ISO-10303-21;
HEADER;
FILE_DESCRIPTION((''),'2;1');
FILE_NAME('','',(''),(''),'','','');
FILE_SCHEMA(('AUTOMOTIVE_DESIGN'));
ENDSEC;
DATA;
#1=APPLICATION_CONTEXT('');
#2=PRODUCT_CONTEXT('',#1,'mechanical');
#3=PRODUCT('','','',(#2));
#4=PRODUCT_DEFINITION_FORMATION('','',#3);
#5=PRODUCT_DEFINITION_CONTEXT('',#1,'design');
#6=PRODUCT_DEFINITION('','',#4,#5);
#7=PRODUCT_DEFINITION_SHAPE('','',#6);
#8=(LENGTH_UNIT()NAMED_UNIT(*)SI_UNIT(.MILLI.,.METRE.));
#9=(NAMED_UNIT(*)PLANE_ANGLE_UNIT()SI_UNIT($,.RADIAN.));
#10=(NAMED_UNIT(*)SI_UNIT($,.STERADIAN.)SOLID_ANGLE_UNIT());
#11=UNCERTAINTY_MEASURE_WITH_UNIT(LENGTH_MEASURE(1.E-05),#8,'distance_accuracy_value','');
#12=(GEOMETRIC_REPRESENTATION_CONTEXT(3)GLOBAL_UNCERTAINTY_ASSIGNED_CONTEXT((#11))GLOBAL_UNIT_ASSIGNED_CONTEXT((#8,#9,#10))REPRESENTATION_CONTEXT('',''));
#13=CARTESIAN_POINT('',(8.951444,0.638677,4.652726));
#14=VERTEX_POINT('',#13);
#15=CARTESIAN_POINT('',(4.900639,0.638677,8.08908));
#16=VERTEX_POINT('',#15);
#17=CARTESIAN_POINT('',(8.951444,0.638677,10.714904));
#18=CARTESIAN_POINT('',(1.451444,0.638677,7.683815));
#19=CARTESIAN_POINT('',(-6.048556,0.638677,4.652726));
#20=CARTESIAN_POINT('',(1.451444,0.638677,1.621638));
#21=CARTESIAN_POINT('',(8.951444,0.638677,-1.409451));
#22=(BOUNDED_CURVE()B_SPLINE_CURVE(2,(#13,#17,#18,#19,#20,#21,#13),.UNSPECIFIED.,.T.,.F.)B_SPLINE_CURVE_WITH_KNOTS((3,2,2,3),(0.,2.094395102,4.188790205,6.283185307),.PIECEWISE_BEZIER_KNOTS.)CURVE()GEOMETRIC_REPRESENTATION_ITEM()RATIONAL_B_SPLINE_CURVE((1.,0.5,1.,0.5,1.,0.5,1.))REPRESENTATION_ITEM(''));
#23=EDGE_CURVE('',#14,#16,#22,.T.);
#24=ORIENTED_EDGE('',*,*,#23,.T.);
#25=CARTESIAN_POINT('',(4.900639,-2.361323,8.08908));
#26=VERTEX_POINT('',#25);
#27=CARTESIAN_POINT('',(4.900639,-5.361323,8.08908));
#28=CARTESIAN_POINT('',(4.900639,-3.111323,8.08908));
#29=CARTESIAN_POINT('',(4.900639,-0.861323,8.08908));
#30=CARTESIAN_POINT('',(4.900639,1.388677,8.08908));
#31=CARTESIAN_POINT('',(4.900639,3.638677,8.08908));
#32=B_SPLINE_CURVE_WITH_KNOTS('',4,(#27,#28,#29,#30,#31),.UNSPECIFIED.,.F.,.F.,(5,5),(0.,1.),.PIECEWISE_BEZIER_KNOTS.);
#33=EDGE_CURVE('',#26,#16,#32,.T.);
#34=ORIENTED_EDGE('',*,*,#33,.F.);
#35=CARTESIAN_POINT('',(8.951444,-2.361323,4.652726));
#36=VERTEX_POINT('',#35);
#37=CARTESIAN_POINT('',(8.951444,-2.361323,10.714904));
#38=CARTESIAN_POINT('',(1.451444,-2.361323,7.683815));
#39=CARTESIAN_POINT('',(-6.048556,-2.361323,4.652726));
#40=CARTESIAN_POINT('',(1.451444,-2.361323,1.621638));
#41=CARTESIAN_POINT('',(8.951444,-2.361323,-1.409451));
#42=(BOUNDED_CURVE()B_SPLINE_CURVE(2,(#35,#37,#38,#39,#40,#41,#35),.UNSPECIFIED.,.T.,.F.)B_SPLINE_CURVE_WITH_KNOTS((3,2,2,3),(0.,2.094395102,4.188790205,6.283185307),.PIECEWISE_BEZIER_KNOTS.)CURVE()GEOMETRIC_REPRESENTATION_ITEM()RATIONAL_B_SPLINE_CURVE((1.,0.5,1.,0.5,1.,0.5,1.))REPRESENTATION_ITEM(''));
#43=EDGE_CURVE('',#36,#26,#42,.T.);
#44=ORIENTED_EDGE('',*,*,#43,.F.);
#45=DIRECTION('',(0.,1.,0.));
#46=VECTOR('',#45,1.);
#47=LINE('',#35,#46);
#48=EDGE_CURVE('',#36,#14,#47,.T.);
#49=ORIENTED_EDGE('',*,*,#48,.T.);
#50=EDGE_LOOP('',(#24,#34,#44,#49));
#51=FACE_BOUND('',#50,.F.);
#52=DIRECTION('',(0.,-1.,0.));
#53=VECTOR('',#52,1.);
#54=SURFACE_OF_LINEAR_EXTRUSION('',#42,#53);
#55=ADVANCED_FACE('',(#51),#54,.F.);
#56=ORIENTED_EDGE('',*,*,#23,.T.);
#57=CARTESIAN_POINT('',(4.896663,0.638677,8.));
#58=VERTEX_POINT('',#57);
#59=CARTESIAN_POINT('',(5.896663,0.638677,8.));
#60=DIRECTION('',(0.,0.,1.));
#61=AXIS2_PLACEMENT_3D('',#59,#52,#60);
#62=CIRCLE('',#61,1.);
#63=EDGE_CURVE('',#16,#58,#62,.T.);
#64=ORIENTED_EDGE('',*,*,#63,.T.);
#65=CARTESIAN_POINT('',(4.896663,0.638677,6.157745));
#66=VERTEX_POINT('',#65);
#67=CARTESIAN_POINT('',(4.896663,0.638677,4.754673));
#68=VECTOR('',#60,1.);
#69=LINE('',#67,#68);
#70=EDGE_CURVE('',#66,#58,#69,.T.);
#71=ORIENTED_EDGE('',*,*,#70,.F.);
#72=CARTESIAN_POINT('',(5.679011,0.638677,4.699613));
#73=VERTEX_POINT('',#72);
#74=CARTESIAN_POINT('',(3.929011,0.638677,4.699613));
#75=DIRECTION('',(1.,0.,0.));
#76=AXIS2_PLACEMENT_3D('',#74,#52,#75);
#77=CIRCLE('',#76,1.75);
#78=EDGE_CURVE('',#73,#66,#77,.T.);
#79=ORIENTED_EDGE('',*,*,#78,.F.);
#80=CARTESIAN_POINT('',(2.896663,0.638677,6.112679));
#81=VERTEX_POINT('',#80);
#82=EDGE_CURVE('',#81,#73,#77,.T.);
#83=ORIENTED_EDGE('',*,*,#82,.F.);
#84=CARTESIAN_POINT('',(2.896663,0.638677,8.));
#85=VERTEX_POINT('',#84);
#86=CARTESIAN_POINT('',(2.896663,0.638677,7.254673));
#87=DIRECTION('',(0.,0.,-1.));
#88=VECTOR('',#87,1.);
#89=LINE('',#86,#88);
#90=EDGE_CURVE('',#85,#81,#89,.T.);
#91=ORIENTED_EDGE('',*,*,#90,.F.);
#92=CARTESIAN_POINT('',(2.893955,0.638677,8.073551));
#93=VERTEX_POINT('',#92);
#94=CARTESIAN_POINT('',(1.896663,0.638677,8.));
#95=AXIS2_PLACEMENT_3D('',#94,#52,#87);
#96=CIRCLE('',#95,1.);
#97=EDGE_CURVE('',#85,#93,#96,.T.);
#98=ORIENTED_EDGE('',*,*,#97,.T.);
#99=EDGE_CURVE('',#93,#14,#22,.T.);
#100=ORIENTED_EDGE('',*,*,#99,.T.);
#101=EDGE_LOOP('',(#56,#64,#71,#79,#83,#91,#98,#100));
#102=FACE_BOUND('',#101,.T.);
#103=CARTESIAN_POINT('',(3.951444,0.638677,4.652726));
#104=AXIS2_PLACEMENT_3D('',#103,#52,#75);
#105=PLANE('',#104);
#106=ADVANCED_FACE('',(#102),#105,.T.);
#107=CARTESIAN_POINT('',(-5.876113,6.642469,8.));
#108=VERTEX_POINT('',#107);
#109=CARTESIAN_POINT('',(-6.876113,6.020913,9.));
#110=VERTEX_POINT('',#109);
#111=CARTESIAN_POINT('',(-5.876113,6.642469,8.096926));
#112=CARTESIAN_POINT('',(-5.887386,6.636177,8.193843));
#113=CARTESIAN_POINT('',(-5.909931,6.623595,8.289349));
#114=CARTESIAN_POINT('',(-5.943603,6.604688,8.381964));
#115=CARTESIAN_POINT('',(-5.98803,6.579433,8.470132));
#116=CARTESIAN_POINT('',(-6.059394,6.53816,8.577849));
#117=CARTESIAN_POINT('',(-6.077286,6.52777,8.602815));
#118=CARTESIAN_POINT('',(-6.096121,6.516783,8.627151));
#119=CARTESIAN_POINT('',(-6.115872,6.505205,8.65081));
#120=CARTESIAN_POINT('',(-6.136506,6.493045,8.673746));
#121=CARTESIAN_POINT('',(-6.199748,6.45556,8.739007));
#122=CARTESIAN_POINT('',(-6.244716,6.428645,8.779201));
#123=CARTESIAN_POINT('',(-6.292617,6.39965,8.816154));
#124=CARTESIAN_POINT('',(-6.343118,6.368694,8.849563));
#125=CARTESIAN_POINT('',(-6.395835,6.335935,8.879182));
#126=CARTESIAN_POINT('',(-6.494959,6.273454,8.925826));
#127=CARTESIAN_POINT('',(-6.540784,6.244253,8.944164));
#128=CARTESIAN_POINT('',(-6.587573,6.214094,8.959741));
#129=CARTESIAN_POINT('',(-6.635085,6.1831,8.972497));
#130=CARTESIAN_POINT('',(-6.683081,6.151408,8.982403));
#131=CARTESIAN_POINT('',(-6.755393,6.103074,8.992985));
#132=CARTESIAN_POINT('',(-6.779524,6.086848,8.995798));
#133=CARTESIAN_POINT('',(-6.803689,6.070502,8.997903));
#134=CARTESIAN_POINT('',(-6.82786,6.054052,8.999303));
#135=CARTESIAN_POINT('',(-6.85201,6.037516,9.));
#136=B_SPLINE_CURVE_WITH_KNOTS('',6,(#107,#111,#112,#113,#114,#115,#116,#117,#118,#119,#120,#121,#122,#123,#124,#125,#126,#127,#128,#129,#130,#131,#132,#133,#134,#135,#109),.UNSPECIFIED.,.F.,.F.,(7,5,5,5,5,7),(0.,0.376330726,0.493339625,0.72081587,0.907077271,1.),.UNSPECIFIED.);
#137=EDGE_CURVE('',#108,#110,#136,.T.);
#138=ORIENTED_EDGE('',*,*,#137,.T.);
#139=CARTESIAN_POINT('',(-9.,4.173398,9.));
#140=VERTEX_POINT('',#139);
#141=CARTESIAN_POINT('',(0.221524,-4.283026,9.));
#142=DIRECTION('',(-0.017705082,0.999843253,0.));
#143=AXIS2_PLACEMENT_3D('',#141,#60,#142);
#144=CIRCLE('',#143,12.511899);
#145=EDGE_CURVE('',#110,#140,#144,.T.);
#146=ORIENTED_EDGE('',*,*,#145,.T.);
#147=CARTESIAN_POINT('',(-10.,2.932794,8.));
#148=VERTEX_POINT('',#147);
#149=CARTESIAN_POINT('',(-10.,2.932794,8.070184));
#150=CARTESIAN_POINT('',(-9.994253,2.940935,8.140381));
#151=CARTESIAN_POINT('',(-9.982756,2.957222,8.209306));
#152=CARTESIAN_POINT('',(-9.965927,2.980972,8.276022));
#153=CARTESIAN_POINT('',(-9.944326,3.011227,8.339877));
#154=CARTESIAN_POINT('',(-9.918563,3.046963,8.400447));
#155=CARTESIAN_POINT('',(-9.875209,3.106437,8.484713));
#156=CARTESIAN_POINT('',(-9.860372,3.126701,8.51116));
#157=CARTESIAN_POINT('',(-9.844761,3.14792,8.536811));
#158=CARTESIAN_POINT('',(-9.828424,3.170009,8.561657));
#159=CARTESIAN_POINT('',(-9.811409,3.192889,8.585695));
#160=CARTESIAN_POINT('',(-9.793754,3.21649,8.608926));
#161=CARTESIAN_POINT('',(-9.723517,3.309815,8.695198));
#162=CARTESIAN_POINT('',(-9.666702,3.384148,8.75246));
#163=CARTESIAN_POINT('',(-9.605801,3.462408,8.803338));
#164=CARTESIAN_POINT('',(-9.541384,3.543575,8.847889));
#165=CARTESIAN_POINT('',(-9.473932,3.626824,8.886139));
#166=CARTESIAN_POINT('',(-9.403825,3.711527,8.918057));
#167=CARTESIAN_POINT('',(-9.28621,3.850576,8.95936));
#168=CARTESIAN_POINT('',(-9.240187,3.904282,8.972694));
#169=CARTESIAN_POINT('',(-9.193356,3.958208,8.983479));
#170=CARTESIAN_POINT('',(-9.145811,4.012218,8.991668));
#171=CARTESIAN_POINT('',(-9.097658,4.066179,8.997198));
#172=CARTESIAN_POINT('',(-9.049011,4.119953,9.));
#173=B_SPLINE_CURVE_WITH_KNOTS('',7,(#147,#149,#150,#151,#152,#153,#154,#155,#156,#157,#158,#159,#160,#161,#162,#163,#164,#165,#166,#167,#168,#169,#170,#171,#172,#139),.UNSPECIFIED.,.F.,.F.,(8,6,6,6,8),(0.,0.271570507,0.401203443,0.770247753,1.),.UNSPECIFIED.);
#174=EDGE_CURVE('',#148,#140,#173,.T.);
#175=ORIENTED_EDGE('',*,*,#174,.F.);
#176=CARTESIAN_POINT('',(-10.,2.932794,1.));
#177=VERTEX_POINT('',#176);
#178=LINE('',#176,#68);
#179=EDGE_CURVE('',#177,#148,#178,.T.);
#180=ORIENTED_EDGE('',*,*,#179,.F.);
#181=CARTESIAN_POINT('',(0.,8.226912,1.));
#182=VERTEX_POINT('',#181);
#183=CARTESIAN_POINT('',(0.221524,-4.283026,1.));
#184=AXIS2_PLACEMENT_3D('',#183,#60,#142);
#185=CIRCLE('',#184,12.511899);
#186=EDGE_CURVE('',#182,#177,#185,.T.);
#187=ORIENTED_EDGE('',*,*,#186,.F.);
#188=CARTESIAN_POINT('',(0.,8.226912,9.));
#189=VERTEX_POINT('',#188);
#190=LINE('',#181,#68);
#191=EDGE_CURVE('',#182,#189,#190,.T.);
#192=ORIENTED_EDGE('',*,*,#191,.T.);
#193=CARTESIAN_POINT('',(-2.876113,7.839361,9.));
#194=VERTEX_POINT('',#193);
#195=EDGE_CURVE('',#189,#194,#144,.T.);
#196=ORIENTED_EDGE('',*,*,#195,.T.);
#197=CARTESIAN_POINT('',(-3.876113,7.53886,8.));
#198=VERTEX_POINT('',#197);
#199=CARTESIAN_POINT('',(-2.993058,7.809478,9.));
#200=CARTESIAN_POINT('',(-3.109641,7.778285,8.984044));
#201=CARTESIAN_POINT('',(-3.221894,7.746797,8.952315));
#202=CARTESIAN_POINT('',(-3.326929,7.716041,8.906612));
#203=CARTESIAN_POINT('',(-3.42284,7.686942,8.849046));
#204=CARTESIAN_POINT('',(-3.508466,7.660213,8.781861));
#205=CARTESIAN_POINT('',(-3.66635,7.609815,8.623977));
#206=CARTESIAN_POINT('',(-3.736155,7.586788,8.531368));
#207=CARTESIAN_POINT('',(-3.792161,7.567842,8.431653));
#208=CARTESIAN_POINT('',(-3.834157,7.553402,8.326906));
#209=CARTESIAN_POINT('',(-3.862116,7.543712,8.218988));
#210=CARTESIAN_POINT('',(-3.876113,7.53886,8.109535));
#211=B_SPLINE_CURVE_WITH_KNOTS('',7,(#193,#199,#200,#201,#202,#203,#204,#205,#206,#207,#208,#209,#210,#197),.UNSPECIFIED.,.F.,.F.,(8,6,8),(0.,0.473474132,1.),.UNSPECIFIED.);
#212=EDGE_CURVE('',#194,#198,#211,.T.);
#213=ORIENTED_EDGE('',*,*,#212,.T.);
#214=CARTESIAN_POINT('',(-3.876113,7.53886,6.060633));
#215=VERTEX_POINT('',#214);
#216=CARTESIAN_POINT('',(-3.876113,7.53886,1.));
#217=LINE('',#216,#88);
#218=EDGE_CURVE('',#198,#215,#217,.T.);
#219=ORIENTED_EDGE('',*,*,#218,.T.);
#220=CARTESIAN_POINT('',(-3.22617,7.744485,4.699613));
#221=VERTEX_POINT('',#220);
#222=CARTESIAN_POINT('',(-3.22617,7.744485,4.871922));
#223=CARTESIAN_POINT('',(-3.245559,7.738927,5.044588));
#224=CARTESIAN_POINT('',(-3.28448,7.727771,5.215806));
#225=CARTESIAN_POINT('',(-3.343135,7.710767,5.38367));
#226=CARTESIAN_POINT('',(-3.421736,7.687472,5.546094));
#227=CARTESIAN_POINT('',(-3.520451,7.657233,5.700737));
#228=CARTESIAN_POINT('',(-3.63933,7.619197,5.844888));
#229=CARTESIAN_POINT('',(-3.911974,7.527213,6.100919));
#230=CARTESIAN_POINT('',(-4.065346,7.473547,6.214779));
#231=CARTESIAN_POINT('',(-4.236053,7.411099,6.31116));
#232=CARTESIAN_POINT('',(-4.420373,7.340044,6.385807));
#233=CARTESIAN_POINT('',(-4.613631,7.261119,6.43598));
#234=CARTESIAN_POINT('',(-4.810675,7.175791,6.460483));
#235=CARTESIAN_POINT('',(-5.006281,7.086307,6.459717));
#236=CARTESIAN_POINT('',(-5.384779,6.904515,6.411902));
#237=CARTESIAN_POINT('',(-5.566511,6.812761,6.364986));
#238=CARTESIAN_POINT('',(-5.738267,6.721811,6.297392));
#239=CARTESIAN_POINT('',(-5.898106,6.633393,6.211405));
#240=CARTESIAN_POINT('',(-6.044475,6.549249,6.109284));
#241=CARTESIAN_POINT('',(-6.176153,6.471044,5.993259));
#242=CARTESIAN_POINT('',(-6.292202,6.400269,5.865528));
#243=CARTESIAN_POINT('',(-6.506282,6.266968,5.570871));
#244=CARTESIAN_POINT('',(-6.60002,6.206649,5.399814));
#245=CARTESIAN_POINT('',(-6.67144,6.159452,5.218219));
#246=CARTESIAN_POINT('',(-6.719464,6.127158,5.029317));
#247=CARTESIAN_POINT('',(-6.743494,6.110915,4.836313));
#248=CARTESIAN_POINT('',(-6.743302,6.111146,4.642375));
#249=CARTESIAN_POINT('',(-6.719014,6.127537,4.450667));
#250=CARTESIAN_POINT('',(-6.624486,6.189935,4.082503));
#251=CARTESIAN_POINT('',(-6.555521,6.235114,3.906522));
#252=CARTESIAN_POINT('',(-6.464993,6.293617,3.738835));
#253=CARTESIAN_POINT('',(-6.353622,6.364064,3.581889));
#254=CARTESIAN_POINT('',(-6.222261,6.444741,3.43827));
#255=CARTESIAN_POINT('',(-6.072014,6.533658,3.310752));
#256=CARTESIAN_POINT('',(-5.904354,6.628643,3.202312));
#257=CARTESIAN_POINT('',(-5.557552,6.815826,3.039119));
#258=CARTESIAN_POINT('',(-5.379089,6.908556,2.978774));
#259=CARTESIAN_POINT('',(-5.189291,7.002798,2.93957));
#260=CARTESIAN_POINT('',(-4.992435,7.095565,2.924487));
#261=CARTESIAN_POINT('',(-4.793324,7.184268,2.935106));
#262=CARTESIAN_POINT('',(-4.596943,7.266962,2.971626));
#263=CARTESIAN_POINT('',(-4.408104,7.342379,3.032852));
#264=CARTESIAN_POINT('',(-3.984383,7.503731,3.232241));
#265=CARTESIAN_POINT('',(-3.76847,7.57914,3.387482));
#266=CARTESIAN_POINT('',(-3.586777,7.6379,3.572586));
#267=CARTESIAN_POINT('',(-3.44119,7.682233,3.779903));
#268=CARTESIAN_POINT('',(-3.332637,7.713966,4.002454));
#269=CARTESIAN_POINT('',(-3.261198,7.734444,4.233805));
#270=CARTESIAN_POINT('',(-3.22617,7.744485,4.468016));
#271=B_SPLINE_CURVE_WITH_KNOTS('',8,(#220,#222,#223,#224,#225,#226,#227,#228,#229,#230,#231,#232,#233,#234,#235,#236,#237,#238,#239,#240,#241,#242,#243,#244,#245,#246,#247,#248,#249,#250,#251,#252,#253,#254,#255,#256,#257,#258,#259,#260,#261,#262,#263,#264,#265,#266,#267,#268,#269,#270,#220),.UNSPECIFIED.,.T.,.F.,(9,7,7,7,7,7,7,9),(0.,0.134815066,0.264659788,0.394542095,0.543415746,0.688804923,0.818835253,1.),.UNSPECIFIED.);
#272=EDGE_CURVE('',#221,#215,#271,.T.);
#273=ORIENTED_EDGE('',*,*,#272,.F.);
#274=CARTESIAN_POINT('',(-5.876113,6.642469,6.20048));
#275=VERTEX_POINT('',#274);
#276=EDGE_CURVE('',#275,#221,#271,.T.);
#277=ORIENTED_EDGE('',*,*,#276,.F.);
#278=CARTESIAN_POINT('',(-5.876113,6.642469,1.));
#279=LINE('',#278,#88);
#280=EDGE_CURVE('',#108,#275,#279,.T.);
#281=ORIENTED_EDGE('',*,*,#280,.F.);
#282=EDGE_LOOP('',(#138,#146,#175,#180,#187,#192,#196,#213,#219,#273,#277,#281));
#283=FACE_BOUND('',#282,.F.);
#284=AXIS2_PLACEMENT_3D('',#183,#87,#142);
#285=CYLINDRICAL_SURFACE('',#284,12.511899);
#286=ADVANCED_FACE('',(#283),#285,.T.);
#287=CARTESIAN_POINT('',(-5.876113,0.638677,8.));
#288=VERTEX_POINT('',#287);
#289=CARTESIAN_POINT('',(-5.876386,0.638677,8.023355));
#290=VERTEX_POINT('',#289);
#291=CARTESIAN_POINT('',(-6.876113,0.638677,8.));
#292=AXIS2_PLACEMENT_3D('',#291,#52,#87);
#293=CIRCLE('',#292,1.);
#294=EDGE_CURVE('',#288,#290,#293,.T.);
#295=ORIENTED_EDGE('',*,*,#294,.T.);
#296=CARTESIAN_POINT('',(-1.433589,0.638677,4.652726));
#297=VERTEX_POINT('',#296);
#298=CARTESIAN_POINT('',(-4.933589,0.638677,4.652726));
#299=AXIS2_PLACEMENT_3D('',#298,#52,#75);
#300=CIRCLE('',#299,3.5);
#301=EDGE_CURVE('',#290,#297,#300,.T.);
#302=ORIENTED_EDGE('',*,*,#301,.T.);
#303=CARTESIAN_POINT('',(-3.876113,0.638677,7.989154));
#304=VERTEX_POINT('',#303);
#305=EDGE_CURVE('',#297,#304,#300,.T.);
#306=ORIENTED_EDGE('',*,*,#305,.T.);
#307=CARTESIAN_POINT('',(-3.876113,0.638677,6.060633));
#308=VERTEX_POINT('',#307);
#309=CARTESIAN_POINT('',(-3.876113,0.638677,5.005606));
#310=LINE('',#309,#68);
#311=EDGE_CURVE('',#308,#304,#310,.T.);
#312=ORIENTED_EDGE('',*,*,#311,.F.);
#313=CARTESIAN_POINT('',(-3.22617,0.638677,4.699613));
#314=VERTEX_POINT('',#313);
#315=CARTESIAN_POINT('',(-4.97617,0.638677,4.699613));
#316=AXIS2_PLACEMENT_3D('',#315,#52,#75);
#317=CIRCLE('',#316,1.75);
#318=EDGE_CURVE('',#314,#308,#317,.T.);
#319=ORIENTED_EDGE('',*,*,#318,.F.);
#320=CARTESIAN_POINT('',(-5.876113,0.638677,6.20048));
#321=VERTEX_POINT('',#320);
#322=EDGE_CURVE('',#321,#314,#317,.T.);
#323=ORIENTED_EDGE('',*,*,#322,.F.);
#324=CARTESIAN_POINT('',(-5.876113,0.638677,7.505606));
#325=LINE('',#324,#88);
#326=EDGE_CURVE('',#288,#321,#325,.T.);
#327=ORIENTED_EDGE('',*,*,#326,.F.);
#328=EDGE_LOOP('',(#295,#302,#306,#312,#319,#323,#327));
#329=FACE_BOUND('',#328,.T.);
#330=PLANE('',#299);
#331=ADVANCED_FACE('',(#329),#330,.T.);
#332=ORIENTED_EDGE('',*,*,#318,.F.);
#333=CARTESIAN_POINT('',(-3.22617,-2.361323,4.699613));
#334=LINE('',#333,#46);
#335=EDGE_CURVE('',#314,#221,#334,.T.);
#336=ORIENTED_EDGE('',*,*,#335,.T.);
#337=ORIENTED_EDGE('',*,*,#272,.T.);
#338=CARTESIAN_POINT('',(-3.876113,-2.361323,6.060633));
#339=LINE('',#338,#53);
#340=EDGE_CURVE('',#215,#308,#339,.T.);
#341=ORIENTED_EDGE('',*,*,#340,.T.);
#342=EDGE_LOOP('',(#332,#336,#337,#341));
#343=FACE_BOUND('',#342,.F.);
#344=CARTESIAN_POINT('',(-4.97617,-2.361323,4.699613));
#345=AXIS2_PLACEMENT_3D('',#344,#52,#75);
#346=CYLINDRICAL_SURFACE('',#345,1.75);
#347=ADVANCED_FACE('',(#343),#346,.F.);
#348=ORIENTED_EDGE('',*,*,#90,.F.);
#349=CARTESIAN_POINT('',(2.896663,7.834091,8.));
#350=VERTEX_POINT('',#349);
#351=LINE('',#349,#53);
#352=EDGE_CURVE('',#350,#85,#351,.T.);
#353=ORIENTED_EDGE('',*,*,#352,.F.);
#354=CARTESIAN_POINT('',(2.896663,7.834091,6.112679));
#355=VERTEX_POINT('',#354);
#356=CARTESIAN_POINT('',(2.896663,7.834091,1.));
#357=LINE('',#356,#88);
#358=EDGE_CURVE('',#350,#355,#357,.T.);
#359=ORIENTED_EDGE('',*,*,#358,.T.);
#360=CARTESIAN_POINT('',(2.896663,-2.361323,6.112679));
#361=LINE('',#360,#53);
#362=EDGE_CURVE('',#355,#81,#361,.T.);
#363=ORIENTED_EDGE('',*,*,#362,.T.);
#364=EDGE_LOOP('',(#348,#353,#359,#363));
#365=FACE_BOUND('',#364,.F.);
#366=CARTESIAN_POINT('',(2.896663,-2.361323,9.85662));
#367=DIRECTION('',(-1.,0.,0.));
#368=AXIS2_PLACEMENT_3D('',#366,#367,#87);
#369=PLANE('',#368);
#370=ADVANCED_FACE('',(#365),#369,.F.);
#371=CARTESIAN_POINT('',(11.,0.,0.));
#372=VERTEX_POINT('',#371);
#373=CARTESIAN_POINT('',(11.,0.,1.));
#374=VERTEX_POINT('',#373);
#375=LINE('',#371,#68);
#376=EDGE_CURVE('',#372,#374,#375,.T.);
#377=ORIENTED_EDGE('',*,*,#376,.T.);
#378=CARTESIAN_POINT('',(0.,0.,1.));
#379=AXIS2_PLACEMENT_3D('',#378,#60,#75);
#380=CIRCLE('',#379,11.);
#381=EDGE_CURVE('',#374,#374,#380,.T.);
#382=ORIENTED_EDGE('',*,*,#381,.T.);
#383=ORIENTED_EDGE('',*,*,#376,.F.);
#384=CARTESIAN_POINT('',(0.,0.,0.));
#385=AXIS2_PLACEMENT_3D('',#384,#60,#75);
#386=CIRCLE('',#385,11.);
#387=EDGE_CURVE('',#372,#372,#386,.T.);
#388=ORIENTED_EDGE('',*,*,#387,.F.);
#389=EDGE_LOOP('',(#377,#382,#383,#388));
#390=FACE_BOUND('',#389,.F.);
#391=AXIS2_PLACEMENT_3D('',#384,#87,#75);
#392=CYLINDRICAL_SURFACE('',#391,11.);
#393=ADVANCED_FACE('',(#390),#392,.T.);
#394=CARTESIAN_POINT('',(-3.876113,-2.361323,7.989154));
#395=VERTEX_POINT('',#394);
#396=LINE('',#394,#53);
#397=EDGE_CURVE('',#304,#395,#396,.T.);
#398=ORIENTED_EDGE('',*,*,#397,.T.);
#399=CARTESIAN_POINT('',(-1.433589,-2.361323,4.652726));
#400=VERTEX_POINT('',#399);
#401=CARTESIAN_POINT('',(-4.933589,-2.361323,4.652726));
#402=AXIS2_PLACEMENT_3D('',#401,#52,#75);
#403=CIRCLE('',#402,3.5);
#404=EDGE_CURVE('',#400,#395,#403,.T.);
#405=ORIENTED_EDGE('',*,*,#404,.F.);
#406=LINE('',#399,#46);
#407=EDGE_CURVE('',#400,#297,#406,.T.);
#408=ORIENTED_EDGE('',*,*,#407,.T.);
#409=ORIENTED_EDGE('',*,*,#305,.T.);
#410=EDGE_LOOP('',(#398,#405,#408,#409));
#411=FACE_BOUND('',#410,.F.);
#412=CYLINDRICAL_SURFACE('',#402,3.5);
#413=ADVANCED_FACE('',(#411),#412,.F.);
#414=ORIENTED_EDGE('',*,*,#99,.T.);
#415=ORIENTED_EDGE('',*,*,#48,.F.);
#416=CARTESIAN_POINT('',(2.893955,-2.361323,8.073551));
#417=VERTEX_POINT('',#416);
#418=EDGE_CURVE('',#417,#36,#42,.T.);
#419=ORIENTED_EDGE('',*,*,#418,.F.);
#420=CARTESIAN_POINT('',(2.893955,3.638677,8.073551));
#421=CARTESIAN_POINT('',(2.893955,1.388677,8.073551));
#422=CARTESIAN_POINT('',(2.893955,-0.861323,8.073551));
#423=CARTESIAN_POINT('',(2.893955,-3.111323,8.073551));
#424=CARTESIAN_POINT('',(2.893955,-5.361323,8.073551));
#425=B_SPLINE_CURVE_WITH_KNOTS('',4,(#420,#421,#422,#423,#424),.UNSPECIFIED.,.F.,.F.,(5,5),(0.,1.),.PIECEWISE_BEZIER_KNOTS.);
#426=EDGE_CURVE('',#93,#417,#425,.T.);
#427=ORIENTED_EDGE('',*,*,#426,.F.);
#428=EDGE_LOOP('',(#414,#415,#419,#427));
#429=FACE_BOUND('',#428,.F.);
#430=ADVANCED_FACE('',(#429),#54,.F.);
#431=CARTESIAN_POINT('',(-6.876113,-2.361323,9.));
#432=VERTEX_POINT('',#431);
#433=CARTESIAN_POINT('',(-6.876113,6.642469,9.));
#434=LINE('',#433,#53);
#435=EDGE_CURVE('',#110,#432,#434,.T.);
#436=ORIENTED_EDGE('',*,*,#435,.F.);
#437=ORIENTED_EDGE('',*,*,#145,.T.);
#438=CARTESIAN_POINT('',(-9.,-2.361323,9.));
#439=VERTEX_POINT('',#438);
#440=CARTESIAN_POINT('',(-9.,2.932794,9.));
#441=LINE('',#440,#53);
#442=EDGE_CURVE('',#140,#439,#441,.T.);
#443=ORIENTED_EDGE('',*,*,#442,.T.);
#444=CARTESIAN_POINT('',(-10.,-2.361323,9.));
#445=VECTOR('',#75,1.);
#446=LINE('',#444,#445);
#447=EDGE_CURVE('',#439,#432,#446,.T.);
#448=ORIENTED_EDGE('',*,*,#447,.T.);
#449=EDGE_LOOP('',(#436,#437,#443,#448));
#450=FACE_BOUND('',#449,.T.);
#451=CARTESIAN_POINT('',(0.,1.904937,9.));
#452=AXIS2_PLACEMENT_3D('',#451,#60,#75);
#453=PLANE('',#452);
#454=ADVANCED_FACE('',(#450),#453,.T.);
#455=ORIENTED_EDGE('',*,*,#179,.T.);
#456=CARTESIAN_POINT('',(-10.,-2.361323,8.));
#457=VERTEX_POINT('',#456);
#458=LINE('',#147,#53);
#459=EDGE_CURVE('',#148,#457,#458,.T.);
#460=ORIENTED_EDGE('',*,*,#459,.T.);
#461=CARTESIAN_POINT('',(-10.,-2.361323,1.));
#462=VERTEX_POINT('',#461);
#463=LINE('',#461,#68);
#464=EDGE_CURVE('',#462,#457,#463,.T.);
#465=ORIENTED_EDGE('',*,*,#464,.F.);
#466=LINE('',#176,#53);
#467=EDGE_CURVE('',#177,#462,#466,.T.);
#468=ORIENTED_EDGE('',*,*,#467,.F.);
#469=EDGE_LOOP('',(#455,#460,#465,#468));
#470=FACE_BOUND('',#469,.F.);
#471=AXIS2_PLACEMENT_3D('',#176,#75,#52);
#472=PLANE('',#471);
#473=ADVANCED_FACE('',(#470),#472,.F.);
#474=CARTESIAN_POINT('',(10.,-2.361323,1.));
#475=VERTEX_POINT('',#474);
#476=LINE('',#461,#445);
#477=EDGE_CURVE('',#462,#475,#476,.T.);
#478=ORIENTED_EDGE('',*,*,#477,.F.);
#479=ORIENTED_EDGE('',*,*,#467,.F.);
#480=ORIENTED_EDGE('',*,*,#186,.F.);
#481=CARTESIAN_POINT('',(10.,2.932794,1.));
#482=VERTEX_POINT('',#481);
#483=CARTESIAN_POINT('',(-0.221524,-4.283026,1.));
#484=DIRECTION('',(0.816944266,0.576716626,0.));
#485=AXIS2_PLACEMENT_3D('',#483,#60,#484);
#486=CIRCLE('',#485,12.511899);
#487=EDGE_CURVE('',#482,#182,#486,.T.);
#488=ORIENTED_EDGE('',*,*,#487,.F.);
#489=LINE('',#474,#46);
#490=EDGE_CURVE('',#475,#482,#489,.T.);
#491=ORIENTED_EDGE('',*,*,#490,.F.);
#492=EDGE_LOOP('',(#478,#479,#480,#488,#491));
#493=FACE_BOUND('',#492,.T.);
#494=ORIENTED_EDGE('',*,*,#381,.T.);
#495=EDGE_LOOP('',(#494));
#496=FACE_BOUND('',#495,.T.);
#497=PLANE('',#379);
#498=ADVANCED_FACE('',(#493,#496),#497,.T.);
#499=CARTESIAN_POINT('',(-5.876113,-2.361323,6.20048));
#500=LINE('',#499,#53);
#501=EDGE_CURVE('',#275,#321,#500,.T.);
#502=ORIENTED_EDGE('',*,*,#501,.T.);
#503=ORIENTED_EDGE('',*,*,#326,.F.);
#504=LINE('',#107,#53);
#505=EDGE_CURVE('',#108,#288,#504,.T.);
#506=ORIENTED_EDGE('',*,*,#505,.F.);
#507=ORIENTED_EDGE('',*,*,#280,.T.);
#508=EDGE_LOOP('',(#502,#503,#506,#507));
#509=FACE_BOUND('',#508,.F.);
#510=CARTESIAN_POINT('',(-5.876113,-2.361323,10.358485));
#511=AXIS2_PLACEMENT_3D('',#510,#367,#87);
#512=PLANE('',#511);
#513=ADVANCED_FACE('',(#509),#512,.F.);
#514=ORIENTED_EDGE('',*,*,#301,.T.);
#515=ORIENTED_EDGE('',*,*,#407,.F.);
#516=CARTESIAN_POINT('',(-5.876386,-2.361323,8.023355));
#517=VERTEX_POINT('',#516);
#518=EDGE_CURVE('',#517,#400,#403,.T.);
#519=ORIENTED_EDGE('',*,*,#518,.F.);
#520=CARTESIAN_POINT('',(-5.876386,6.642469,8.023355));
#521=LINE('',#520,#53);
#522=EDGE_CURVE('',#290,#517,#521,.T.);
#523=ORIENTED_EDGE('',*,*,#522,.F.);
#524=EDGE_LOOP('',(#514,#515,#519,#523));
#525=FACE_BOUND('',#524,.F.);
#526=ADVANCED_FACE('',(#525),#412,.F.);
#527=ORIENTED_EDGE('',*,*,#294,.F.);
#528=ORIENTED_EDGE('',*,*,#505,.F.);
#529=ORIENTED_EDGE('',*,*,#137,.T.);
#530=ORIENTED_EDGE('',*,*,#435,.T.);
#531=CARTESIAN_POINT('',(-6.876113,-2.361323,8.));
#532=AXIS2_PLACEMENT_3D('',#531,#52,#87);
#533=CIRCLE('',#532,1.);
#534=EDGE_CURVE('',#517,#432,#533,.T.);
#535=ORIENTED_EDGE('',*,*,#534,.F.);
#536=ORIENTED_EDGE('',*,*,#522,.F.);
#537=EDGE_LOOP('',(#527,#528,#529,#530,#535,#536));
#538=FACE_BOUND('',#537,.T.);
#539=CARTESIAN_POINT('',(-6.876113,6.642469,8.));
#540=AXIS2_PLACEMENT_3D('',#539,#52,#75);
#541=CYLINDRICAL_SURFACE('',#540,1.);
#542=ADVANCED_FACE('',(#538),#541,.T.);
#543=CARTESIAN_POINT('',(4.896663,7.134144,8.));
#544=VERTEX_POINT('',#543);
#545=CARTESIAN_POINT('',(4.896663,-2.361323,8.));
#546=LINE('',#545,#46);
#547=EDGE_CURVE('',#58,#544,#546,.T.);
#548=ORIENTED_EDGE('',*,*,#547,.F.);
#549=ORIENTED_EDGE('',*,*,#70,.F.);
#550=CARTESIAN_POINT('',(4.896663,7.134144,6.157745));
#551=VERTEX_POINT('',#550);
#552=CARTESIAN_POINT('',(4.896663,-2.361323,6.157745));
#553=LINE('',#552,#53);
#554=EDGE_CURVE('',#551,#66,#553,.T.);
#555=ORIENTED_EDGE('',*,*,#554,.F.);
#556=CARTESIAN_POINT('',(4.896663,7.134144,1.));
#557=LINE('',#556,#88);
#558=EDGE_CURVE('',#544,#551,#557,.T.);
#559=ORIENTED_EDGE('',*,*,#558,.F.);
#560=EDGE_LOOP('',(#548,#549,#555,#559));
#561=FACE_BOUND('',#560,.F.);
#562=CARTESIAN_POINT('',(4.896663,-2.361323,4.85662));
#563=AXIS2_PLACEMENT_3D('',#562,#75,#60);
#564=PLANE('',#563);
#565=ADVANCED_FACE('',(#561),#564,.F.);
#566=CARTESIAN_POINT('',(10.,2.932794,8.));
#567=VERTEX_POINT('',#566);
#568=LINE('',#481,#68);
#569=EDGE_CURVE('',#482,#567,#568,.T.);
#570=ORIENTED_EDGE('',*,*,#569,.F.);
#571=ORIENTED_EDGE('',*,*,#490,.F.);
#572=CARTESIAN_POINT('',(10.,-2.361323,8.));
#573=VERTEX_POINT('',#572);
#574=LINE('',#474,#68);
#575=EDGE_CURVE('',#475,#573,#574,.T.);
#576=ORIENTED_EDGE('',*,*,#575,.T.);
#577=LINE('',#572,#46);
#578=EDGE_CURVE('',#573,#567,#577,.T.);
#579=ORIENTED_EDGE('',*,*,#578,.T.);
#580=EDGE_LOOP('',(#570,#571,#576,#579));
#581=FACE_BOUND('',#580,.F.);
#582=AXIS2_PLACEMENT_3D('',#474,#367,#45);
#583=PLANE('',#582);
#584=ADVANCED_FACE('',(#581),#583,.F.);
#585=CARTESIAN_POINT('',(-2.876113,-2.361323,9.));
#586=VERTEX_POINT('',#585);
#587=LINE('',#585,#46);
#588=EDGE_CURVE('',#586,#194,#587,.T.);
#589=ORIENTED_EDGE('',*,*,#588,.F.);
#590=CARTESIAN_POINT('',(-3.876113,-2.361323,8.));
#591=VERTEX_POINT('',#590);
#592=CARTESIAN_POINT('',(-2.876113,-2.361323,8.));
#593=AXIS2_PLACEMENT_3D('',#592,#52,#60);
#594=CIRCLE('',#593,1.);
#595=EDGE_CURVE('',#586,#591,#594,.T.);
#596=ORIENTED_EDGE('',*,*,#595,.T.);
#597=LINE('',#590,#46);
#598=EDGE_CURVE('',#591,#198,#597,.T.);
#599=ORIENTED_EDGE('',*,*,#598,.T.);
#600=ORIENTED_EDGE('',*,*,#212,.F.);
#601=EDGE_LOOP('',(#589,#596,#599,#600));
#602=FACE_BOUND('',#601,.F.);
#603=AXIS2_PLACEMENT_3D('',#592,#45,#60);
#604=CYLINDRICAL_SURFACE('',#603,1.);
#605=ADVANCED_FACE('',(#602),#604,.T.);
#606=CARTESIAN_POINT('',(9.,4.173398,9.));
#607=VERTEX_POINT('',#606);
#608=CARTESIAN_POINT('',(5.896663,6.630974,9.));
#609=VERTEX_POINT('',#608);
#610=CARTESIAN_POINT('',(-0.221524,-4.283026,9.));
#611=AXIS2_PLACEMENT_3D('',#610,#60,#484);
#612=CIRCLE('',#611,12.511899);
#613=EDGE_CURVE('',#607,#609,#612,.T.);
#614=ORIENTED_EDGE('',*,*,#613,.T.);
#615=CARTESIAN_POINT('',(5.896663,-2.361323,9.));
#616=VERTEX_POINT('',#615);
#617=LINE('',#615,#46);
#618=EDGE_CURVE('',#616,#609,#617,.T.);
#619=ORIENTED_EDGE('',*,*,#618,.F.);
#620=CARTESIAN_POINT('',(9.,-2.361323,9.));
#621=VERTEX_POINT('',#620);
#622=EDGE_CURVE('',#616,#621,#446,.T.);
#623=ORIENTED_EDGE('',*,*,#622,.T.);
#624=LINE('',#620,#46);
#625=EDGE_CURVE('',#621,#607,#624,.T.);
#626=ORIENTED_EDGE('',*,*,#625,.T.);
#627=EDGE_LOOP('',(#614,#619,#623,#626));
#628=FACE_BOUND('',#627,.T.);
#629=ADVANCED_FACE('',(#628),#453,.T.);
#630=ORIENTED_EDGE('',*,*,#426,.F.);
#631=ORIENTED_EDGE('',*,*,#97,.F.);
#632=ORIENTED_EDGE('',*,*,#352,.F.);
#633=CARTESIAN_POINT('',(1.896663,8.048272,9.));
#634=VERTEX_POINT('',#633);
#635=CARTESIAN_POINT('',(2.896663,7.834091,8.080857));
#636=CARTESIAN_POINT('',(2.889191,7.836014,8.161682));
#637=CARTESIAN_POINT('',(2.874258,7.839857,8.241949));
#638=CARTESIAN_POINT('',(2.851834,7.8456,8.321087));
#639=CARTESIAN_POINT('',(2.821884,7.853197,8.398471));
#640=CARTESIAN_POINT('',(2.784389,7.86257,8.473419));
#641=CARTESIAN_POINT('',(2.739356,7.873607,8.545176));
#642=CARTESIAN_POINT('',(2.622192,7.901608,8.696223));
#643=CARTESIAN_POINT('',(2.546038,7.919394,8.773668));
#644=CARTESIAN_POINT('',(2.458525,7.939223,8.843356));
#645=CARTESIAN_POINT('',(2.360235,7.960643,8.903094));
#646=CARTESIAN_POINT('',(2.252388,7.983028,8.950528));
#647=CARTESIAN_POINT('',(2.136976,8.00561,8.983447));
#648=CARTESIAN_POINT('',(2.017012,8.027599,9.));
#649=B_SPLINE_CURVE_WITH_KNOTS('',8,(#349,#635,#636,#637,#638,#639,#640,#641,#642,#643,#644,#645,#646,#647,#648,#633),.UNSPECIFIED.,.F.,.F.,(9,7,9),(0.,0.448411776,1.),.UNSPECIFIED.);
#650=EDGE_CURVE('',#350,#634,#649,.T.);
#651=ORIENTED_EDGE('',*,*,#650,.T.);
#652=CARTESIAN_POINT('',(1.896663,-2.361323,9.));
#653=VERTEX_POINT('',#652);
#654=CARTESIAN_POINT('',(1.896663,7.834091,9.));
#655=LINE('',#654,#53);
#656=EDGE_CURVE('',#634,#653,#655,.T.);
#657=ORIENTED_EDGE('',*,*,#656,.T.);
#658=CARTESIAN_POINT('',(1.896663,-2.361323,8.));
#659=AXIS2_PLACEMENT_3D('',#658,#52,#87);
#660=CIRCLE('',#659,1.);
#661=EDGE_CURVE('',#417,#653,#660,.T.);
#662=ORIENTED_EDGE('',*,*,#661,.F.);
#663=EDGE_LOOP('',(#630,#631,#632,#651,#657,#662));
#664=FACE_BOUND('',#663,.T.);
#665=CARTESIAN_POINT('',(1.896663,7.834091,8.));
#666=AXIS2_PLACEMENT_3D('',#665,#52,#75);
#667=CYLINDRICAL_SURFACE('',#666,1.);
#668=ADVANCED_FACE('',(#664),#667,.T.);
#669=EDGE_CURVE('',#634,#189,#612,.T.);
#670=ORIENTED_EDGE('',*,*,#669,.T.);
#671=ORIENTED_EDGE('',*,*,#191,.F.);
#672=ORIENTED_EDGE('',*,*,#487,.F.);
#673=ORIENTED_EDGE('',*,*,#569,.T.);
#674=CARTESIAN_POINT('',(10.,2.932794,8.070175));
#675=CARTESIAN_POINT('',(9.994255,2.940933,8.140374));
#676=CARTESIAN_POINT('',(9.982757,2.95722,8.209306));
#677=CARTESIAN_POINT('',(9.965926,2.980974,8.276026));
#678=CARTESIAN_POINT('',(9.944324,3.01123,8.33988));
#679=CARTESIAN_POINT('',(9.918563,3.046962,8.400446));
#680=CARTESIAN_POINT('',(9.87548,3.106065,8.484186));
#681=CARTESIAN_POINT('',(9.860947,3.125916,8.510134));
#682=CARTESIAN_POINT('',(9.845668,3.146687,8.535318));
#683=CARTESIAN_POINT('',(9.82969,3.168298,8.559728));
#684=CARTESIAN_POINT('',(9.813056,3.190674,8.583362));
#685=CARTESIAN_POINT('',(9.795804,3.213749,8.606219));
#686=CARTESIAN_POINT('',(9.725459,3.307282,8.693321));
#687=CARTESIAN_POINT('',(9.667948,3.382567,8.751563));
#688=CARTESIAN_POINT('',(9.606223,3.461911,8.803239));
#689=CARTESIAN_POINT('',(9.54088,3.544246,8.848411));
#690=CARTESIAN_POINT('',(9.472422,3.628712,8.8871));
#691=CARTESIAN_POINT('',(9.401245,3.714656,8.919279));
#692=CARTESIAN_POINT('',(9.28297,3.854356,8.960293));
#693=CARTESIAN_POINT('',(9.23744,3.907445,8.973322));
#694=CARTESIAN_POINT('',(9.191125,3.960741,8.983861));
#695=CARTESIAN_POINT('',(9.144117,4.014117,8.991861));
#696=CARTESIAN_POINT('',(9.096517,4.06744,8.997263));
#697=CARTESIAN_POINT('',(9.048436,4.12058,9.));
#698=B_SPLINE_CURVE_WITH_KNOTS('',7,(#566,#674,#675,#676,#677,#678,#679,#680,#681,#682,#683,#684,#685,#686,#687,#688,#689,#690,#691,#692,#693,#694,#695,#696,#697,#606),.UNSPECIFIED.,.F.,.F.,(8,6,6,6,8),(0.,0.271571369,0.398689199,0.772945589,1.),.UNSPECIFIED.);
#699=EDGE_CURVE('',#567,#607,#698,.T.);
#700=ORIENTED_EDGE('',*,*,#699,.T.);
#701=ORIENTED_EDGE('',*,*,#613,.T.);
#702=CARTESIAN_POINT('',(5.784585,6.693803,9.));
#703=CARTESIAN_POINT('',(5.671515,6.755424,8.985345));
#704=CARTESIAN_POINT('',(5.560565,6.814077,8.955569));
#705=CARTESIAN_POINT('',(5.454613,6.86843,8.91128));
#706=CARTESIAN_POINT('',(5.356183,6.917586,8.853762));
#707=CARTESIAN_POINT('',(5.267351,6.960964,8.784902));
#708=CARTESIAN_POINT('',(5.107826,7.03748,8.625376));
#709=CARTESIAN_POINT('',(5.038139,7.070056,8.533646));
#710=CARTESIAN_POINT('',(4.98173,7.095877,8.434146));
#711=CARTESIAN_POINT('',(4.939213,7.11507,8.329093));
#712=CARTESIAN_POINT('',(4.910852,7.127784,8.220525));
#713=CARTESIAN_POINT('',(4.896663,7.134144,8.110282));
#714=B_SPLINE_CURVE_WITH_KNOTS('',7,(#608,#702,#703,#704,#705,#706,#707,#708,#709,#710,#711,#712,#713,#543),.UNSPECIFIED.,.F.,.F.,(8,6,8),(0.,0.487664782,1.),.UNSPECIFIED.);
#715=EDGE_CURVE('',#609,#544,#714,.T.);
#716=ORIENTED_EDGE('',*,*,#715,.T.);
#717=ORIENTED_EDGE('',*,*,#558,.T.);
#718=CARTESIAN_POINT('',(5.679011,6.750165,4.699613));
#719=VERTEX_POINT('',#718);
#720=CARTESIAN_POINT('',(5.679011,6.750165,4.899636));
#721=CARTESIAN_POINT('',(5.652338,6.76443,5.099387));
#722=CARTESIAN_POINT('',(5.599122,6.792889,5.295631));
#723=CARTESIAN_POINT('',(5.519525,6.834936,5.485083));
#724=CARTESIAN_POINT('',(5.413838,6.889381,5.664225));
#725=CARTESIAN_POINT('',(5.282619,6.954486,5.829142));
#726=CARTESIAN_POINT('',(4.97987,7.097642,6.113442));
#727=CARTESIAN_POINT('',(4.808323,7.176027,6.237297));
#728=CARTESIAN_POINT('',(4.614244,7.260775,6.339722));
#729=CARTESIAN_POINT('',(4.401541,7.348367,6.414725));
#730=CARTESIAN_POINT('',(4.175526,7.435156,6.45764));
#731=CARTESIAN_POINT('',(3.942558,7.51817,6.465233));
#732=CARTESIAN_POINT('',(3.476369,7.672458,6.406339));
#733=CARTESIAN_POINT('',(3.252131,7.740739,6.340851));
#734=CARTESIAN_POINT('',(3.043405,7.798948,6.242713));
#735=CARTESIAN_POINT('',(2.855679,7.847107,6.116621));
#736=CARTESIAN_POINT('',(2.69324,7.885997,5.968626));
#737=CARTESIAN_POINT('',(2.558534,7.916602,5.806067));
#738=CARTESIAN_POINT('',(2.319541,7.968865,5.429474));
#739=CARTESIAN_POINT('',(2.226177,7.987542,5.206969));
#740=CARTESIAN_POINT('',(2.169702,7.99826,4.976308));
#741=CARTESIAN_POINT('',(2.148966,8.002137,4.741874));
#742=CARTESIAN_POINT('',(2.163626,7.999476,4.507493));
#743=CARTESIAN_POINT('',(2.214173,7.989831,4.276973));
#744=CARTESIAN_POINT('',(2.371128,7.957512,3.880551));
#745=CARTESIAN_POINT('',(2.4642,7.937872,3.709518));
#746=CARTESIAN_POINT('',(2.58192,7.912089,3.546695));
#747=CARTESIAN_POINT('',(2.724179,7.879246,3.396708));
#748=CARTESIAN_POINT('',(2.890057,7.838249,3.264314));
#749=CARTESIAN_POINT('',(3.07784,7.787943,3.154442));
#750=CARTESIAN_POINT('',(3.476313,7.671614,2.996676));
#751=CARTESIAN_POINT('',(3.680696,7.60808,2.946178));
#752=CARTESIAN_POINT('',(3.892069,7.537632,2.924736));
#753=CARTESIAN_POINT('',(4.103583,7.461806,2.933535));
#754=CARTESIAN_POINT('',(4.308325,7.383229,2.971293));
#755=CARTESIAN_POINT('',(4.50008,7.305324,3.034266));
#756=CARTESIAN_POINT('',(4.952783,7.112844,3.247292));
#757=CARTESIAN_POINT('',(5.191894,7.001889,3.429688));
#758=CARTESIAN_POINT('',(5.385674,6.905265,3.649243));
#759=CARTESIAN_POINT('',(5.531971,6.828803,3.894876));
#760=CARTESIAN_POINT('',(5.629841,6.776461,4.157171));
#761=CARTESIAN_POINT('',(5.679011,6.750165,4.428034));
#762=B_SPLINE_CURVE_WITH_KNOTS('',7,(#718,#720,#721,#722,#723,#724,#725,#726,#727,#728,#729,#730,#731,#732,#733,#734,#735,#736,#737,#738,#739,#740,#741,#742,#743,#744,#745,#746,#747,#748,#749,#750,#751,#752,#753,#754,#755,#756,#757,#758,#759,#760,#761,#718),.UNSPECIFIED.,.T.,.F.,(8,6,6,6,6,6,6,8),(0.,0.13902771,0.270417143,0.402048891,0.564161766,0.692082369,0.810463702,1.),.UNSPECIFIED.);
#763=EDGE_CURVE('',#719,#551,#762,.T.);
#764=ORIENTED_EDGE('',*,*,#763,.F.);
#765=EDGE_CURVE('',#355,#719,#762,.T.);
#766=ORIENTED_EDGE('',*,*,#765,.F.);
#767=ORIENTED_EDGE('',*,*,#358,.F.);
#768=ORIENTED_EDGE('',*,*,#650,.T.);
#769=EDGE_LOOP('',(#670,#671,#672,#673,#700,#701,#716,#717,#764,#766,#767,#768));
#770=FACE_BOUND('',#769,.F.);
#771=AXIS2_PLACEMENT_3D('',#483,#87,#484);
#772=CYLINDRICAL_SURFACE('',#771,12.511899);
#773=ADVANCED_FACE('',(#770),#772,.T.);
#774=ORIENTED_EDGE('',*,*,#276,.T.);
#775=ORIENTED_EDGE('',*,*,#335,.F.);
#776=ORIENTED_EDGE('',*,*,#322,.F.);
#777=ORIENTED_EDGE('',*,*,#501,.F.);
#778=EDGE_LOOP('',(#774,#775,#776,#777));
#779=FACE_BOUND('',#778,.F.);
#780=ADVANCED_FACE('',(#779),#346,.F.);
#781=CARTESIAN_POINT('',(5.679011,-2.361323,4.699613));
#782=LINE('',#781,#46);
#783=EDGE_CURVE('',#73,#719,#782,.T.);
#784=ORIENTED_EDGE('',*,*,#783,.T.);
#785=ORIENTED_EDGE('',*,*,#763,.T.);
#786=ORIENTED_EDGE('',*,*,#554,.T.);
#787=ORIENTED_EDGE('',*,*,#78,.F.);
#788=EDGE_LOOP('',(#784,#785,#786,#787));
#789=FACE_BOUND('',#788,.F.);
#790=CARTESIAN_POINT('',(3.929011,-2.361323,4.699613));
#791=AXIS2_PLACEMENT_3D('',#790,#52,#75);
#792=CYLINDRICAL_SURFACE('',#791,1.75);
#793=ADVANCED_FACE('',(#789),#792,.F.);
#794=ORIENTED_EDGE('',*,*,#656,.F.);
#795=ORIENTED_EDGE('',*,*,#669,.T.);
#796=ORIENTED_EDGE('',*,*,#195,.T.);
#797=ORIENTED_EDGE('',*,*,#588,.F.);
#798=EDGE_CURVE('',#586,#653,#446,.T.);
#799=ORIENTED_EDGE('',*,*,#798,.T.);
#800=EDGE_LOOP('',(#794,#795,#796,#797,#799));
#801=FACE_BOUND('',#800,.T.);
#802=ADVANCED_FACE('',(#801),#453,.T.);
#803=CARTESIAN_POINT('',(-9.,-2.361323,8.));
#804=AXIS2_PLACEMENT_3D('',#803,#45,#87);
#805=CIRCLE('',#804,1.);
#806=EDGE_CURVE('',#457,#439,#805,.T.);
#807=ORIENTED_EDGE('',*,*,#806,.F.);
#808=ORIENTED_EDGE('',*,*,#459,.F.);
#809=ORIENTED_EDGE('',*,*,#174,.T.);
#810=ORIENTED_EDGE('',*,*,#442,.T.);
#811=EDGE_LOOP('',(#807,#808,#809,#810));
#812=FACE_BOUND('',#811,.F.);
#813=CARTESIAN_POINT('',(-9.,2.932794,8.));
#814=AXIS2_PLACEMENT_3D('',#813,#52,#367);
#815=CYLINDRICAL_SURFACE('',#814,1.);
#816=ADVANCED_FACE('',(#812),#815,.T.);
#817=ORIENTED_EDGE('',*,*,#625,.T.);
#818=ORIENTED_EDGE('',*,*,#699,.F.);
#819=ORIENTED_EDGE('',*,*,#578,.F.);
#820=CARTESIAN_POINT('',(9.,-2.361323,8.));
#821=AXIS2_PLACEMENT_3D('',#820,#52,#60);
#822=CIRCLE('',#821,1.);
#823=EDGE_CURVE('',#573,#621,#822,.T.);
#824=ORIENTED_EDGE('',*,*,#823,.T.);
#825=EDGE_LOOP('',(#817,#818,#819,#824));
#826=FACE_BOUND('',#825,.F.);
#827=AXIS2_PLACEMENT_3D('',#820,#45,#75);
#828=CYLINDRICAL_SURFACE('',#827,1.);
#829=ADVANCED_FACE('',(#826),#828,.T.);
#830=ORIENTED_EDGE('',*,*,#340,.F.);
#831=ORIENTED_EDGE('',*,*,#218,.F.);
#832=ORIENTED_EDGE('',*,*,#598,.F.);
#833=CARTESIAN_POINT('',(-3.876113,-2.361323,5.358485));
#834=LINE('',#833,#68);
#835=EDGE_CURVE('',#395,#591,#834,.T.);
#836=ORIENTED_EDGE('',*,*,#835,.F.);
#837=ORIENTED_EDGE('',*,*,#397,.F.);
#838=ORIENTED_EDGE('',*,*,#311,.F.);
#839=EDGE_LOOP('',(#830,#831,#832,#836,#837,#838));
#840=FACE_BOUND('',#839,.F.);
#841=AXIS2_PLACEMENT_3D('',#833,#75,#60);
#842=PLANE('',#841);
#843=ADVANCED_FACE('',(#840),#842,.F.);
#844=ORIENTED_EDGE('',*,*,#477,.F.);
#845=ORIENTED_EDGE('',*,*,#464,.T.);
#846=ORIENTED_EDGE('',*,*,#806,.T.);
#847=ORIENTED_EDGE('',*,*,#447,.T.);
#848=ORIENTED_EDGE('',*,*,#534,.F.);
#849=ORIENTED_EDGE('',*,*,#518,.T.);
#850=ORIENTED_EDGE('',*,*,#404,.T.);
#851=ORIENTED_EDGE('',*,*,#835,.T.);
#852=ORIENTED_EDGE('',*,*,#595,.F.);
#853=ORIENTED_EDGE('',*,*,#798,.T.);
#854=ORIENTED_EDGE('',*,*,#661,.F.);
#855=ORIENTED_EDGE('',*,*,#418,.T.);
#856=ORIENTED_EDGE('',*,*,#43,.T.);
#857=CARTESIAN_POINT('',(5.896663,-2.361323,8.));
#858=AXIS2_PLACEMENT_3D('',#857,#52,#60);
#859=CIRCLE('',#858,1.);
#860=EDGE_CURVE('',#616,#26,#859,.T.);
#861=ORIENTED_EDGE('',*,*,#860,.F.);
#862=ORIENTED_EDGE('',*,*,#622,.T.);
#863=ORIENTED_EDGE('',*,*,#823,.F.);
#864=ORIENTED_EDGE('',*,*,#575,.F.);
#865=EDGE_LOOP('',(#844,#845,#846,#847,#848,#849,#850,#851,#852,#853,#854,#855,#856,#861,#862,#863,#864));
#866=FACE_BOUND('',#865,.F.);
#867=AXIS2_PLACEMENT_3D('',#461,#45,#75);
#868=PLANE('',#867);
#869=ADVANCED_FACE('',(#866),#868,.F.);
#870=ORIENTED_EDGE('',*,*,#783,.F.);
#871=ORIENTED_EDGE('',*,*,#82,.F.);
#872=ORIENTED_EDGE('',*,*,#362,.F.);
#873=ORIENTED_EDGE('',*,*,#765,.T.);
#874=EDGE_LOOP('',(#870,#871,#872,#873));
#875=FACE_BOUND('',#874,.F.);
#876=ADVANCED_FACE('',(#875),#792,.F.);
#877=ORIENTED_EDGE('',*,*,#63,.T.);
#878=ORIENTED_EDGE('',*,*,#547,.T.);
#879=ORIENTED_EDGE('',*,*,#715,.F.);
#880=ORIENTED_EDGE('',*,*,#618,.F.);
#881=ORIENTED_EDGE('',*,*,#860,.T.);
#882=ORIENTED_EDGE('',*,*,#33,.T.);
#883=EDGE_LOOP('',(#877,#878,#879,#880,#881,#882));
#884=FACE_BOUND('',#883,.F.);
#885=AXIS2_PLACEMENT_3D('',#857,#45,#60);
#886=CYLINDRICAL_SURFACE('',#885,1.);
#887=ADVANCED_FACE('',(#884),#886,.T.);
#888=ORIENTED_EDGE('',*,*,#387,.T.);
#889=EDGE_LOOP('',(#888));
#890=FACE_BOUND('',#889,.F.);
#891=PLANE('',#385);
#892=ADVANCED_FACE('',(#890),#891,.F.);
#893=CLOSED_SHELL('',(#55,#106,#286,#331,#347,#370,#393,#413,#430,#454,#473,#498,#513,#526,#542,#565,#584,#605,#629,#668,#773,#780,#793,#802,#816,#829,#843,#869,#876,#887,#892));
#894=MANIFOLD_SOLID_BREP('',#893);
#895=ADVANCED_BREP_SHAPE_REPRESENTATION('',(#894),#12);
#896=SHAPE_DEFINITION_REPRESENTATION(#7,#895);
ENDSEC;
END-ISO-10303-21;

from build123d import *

# Parameters (mm, degrees)
F0_R     = 11
F1_DEPTH = 1
F3_DEPTH = 8
F4_R     = 3.5
F5_DEPTH = 3
F6_R     = 1.75
F7_DEPTH = 25
F8_W     = 2
F8_H     = 1.3584850393
F8_H_2   = 0.8566204496
F9_DEPTH = 25
F10_R    = 1


with BuildPart() as f1:
    # F0 (on Top) → F1 (new body)
    with BuildSketch(Plane.XY):
        Circle(F0_R)
    extrude(amount=F1_DEPTH)

    # F2 (on face) → F3 (join)
    with BuildSketch(Plane.XY.offset(1)):
        with BuildLine():
            Line((-10, -2.3613233584), (10, -2.3613233584))
            Line((10, -2.3613233584), (10, 2.9327942886))
            ThreePointArc((10, 2.9327942886), (5.6326397358, 6.7748392798), (0, 8.2269119357))
            ThreePointArc((0, 8.2269119357), (-5.6326397358, 6.7748392798), (-10, 2.9327942886))
            Line((-10, 2.9327942886), (-10, -2.3613233584))
        make_face()
    extrude(amount=F3_DEPTH)

    # F4 (on face) → F5 (cut)
    with BuildSketch(Plane.XZ.offset(2.3613233584)):
        with BuildLine():
            add(Edge.make_bspline(
                [(8.9514442906, 4.652726464), (8.9514442906, 10.7149042905), (1.4514442906, 7.6838153772), (-6.0485557094, 4.652726464), (1.4514442906, 1.6216375507), (8.9514442906, -1.4094513625), (8.9514442906, 4.652726464)],
                knots=[0, 0, 0, 2.0943951024, 2.0943951024, 4.1887902048, 4.1887902048, 6.2831853072, 6.2831853072, 6.2831853072], degree=2, weights=[1, 0.5, 1, 0.5, 1, 0.5, 1]))
        make_face()
        with Locations((-4.9335886724, 4.652726464)):
            Circle(F4_R)
    extrude(amount=-F5_DEPTH, mode=Mode.SUBTRACT)

    # F6 (on face) → F7 (cut)
    with BuildSketch(Plane.XZ.offset(2.3613233584)):
        with Locations((-4.9761696719, 4.699612502)):
            Circle(F6_R)
        with Locations((3.9290110581, 4.699612502)):
            Circle(F6_R)
    extrude(amount=-F7_DEPTH, mode=Mode.SUBTRACT)

    # F8 (on face) → F9 (cut)
    with BuildSketch(Plane.XZ.offset(2.3613233584)):
        with Locations((-4.8761131, 9.6792425197)):
            Rectangle(F8_W, F8_H)
        with BuildLine():
            Line((-3.8761131, 9), (-5.8761131, 9))
            Line((-5.8761131, 9), (-5.8761131, 8.0234307974))
            ThreePointArc((-5.8761131, 8.0234307974), (-4.8736122222, 8.1522125442), (-3.8761131, 7.989153507))
            Line((-3.8761131, 7.989153507), (-3.8761131, 9))
        make_face()
        with BuildLine():
            ThreePointArc((-3.8761131, 7.989153507), (-4.8736122222, 8.1522125442), (-5.8761131, 8.0234307974))
            Line((-5.8761131, 8.0234307974), (-5.8761131, 5.3584850393))
            Line((-5.8761131, 5.3584850393), (-3.8761131, 5.3584850393))
            Line((-3.8761131, 5.3584850393), (-3.8761131, 7.989153507))
        make_face()
        with BuildLine():
            add(Edge.make_bspline(
                [(4.8966631293, 8.0896167823), (3.8943802836, 8.2246849702), (2.8966631293, 8.0739607418)],
                knots=[1.352399947, 1.352399947, 1.352399947, 1.7466916301, 1.7466916301, 1.7466916301], degree=2, weights=[0.7712353122, 0.7986692612, 0.8615451927]))
            Line((2.8966631293, 8.0739607418), (2.8966631293, 4.8566204496))
            Line((2.8966631293, 4.8566204496), (4.8966631293, 4.8566204496))
            Line((4.8966631293, 4.8566204496), (4.8966631293, 8.0896167823))
        make_face()
        with BuildLine():
            Line((4.8966631293, 9), (2.8966631293, 9))
            Line((2.8966631293, 9), (2.8966631293, 8.0739607418))
            add(Edge.make_bspline(
                [(4.8966631293, 8.0896167823), (3.8943802836, 8.2246849702), (2.8966631293, 8.0739607418)],
                knots=[1.352399947, 1.352399947, 1.352399947, 1.7466916301, 1.7466916301, 1.7466916301], degree=2, weights=[0.7712353122, 0.7986692612, 0.8615451927]))
            Line((4.8966631293, 8.0896167823), (4.8966631293, 9))
        make_face()
        with Locations((3.8966631293, 9.4283102248)):
            Rectangle(F8_W, F8_H_2)
    extrude(amount=-F9_DEPTH, mode=Mode.SUBTRACT)

    # F10
    f10_edges = [f1.edges().sort_by_distance(p)[0] for p in [
        (-10, 0.285735, 9),
        (-5.876113, 2.140573, 9),
        (-3.876113, 2.588768, 9),
        (2.896663, 2.736384, 9),
        (4.896663, 2.38641, 9),
        (10, 0.285735, 9),
    ]]
    fillet(f10_edges, radius=F10_R)


solid = f1.part
